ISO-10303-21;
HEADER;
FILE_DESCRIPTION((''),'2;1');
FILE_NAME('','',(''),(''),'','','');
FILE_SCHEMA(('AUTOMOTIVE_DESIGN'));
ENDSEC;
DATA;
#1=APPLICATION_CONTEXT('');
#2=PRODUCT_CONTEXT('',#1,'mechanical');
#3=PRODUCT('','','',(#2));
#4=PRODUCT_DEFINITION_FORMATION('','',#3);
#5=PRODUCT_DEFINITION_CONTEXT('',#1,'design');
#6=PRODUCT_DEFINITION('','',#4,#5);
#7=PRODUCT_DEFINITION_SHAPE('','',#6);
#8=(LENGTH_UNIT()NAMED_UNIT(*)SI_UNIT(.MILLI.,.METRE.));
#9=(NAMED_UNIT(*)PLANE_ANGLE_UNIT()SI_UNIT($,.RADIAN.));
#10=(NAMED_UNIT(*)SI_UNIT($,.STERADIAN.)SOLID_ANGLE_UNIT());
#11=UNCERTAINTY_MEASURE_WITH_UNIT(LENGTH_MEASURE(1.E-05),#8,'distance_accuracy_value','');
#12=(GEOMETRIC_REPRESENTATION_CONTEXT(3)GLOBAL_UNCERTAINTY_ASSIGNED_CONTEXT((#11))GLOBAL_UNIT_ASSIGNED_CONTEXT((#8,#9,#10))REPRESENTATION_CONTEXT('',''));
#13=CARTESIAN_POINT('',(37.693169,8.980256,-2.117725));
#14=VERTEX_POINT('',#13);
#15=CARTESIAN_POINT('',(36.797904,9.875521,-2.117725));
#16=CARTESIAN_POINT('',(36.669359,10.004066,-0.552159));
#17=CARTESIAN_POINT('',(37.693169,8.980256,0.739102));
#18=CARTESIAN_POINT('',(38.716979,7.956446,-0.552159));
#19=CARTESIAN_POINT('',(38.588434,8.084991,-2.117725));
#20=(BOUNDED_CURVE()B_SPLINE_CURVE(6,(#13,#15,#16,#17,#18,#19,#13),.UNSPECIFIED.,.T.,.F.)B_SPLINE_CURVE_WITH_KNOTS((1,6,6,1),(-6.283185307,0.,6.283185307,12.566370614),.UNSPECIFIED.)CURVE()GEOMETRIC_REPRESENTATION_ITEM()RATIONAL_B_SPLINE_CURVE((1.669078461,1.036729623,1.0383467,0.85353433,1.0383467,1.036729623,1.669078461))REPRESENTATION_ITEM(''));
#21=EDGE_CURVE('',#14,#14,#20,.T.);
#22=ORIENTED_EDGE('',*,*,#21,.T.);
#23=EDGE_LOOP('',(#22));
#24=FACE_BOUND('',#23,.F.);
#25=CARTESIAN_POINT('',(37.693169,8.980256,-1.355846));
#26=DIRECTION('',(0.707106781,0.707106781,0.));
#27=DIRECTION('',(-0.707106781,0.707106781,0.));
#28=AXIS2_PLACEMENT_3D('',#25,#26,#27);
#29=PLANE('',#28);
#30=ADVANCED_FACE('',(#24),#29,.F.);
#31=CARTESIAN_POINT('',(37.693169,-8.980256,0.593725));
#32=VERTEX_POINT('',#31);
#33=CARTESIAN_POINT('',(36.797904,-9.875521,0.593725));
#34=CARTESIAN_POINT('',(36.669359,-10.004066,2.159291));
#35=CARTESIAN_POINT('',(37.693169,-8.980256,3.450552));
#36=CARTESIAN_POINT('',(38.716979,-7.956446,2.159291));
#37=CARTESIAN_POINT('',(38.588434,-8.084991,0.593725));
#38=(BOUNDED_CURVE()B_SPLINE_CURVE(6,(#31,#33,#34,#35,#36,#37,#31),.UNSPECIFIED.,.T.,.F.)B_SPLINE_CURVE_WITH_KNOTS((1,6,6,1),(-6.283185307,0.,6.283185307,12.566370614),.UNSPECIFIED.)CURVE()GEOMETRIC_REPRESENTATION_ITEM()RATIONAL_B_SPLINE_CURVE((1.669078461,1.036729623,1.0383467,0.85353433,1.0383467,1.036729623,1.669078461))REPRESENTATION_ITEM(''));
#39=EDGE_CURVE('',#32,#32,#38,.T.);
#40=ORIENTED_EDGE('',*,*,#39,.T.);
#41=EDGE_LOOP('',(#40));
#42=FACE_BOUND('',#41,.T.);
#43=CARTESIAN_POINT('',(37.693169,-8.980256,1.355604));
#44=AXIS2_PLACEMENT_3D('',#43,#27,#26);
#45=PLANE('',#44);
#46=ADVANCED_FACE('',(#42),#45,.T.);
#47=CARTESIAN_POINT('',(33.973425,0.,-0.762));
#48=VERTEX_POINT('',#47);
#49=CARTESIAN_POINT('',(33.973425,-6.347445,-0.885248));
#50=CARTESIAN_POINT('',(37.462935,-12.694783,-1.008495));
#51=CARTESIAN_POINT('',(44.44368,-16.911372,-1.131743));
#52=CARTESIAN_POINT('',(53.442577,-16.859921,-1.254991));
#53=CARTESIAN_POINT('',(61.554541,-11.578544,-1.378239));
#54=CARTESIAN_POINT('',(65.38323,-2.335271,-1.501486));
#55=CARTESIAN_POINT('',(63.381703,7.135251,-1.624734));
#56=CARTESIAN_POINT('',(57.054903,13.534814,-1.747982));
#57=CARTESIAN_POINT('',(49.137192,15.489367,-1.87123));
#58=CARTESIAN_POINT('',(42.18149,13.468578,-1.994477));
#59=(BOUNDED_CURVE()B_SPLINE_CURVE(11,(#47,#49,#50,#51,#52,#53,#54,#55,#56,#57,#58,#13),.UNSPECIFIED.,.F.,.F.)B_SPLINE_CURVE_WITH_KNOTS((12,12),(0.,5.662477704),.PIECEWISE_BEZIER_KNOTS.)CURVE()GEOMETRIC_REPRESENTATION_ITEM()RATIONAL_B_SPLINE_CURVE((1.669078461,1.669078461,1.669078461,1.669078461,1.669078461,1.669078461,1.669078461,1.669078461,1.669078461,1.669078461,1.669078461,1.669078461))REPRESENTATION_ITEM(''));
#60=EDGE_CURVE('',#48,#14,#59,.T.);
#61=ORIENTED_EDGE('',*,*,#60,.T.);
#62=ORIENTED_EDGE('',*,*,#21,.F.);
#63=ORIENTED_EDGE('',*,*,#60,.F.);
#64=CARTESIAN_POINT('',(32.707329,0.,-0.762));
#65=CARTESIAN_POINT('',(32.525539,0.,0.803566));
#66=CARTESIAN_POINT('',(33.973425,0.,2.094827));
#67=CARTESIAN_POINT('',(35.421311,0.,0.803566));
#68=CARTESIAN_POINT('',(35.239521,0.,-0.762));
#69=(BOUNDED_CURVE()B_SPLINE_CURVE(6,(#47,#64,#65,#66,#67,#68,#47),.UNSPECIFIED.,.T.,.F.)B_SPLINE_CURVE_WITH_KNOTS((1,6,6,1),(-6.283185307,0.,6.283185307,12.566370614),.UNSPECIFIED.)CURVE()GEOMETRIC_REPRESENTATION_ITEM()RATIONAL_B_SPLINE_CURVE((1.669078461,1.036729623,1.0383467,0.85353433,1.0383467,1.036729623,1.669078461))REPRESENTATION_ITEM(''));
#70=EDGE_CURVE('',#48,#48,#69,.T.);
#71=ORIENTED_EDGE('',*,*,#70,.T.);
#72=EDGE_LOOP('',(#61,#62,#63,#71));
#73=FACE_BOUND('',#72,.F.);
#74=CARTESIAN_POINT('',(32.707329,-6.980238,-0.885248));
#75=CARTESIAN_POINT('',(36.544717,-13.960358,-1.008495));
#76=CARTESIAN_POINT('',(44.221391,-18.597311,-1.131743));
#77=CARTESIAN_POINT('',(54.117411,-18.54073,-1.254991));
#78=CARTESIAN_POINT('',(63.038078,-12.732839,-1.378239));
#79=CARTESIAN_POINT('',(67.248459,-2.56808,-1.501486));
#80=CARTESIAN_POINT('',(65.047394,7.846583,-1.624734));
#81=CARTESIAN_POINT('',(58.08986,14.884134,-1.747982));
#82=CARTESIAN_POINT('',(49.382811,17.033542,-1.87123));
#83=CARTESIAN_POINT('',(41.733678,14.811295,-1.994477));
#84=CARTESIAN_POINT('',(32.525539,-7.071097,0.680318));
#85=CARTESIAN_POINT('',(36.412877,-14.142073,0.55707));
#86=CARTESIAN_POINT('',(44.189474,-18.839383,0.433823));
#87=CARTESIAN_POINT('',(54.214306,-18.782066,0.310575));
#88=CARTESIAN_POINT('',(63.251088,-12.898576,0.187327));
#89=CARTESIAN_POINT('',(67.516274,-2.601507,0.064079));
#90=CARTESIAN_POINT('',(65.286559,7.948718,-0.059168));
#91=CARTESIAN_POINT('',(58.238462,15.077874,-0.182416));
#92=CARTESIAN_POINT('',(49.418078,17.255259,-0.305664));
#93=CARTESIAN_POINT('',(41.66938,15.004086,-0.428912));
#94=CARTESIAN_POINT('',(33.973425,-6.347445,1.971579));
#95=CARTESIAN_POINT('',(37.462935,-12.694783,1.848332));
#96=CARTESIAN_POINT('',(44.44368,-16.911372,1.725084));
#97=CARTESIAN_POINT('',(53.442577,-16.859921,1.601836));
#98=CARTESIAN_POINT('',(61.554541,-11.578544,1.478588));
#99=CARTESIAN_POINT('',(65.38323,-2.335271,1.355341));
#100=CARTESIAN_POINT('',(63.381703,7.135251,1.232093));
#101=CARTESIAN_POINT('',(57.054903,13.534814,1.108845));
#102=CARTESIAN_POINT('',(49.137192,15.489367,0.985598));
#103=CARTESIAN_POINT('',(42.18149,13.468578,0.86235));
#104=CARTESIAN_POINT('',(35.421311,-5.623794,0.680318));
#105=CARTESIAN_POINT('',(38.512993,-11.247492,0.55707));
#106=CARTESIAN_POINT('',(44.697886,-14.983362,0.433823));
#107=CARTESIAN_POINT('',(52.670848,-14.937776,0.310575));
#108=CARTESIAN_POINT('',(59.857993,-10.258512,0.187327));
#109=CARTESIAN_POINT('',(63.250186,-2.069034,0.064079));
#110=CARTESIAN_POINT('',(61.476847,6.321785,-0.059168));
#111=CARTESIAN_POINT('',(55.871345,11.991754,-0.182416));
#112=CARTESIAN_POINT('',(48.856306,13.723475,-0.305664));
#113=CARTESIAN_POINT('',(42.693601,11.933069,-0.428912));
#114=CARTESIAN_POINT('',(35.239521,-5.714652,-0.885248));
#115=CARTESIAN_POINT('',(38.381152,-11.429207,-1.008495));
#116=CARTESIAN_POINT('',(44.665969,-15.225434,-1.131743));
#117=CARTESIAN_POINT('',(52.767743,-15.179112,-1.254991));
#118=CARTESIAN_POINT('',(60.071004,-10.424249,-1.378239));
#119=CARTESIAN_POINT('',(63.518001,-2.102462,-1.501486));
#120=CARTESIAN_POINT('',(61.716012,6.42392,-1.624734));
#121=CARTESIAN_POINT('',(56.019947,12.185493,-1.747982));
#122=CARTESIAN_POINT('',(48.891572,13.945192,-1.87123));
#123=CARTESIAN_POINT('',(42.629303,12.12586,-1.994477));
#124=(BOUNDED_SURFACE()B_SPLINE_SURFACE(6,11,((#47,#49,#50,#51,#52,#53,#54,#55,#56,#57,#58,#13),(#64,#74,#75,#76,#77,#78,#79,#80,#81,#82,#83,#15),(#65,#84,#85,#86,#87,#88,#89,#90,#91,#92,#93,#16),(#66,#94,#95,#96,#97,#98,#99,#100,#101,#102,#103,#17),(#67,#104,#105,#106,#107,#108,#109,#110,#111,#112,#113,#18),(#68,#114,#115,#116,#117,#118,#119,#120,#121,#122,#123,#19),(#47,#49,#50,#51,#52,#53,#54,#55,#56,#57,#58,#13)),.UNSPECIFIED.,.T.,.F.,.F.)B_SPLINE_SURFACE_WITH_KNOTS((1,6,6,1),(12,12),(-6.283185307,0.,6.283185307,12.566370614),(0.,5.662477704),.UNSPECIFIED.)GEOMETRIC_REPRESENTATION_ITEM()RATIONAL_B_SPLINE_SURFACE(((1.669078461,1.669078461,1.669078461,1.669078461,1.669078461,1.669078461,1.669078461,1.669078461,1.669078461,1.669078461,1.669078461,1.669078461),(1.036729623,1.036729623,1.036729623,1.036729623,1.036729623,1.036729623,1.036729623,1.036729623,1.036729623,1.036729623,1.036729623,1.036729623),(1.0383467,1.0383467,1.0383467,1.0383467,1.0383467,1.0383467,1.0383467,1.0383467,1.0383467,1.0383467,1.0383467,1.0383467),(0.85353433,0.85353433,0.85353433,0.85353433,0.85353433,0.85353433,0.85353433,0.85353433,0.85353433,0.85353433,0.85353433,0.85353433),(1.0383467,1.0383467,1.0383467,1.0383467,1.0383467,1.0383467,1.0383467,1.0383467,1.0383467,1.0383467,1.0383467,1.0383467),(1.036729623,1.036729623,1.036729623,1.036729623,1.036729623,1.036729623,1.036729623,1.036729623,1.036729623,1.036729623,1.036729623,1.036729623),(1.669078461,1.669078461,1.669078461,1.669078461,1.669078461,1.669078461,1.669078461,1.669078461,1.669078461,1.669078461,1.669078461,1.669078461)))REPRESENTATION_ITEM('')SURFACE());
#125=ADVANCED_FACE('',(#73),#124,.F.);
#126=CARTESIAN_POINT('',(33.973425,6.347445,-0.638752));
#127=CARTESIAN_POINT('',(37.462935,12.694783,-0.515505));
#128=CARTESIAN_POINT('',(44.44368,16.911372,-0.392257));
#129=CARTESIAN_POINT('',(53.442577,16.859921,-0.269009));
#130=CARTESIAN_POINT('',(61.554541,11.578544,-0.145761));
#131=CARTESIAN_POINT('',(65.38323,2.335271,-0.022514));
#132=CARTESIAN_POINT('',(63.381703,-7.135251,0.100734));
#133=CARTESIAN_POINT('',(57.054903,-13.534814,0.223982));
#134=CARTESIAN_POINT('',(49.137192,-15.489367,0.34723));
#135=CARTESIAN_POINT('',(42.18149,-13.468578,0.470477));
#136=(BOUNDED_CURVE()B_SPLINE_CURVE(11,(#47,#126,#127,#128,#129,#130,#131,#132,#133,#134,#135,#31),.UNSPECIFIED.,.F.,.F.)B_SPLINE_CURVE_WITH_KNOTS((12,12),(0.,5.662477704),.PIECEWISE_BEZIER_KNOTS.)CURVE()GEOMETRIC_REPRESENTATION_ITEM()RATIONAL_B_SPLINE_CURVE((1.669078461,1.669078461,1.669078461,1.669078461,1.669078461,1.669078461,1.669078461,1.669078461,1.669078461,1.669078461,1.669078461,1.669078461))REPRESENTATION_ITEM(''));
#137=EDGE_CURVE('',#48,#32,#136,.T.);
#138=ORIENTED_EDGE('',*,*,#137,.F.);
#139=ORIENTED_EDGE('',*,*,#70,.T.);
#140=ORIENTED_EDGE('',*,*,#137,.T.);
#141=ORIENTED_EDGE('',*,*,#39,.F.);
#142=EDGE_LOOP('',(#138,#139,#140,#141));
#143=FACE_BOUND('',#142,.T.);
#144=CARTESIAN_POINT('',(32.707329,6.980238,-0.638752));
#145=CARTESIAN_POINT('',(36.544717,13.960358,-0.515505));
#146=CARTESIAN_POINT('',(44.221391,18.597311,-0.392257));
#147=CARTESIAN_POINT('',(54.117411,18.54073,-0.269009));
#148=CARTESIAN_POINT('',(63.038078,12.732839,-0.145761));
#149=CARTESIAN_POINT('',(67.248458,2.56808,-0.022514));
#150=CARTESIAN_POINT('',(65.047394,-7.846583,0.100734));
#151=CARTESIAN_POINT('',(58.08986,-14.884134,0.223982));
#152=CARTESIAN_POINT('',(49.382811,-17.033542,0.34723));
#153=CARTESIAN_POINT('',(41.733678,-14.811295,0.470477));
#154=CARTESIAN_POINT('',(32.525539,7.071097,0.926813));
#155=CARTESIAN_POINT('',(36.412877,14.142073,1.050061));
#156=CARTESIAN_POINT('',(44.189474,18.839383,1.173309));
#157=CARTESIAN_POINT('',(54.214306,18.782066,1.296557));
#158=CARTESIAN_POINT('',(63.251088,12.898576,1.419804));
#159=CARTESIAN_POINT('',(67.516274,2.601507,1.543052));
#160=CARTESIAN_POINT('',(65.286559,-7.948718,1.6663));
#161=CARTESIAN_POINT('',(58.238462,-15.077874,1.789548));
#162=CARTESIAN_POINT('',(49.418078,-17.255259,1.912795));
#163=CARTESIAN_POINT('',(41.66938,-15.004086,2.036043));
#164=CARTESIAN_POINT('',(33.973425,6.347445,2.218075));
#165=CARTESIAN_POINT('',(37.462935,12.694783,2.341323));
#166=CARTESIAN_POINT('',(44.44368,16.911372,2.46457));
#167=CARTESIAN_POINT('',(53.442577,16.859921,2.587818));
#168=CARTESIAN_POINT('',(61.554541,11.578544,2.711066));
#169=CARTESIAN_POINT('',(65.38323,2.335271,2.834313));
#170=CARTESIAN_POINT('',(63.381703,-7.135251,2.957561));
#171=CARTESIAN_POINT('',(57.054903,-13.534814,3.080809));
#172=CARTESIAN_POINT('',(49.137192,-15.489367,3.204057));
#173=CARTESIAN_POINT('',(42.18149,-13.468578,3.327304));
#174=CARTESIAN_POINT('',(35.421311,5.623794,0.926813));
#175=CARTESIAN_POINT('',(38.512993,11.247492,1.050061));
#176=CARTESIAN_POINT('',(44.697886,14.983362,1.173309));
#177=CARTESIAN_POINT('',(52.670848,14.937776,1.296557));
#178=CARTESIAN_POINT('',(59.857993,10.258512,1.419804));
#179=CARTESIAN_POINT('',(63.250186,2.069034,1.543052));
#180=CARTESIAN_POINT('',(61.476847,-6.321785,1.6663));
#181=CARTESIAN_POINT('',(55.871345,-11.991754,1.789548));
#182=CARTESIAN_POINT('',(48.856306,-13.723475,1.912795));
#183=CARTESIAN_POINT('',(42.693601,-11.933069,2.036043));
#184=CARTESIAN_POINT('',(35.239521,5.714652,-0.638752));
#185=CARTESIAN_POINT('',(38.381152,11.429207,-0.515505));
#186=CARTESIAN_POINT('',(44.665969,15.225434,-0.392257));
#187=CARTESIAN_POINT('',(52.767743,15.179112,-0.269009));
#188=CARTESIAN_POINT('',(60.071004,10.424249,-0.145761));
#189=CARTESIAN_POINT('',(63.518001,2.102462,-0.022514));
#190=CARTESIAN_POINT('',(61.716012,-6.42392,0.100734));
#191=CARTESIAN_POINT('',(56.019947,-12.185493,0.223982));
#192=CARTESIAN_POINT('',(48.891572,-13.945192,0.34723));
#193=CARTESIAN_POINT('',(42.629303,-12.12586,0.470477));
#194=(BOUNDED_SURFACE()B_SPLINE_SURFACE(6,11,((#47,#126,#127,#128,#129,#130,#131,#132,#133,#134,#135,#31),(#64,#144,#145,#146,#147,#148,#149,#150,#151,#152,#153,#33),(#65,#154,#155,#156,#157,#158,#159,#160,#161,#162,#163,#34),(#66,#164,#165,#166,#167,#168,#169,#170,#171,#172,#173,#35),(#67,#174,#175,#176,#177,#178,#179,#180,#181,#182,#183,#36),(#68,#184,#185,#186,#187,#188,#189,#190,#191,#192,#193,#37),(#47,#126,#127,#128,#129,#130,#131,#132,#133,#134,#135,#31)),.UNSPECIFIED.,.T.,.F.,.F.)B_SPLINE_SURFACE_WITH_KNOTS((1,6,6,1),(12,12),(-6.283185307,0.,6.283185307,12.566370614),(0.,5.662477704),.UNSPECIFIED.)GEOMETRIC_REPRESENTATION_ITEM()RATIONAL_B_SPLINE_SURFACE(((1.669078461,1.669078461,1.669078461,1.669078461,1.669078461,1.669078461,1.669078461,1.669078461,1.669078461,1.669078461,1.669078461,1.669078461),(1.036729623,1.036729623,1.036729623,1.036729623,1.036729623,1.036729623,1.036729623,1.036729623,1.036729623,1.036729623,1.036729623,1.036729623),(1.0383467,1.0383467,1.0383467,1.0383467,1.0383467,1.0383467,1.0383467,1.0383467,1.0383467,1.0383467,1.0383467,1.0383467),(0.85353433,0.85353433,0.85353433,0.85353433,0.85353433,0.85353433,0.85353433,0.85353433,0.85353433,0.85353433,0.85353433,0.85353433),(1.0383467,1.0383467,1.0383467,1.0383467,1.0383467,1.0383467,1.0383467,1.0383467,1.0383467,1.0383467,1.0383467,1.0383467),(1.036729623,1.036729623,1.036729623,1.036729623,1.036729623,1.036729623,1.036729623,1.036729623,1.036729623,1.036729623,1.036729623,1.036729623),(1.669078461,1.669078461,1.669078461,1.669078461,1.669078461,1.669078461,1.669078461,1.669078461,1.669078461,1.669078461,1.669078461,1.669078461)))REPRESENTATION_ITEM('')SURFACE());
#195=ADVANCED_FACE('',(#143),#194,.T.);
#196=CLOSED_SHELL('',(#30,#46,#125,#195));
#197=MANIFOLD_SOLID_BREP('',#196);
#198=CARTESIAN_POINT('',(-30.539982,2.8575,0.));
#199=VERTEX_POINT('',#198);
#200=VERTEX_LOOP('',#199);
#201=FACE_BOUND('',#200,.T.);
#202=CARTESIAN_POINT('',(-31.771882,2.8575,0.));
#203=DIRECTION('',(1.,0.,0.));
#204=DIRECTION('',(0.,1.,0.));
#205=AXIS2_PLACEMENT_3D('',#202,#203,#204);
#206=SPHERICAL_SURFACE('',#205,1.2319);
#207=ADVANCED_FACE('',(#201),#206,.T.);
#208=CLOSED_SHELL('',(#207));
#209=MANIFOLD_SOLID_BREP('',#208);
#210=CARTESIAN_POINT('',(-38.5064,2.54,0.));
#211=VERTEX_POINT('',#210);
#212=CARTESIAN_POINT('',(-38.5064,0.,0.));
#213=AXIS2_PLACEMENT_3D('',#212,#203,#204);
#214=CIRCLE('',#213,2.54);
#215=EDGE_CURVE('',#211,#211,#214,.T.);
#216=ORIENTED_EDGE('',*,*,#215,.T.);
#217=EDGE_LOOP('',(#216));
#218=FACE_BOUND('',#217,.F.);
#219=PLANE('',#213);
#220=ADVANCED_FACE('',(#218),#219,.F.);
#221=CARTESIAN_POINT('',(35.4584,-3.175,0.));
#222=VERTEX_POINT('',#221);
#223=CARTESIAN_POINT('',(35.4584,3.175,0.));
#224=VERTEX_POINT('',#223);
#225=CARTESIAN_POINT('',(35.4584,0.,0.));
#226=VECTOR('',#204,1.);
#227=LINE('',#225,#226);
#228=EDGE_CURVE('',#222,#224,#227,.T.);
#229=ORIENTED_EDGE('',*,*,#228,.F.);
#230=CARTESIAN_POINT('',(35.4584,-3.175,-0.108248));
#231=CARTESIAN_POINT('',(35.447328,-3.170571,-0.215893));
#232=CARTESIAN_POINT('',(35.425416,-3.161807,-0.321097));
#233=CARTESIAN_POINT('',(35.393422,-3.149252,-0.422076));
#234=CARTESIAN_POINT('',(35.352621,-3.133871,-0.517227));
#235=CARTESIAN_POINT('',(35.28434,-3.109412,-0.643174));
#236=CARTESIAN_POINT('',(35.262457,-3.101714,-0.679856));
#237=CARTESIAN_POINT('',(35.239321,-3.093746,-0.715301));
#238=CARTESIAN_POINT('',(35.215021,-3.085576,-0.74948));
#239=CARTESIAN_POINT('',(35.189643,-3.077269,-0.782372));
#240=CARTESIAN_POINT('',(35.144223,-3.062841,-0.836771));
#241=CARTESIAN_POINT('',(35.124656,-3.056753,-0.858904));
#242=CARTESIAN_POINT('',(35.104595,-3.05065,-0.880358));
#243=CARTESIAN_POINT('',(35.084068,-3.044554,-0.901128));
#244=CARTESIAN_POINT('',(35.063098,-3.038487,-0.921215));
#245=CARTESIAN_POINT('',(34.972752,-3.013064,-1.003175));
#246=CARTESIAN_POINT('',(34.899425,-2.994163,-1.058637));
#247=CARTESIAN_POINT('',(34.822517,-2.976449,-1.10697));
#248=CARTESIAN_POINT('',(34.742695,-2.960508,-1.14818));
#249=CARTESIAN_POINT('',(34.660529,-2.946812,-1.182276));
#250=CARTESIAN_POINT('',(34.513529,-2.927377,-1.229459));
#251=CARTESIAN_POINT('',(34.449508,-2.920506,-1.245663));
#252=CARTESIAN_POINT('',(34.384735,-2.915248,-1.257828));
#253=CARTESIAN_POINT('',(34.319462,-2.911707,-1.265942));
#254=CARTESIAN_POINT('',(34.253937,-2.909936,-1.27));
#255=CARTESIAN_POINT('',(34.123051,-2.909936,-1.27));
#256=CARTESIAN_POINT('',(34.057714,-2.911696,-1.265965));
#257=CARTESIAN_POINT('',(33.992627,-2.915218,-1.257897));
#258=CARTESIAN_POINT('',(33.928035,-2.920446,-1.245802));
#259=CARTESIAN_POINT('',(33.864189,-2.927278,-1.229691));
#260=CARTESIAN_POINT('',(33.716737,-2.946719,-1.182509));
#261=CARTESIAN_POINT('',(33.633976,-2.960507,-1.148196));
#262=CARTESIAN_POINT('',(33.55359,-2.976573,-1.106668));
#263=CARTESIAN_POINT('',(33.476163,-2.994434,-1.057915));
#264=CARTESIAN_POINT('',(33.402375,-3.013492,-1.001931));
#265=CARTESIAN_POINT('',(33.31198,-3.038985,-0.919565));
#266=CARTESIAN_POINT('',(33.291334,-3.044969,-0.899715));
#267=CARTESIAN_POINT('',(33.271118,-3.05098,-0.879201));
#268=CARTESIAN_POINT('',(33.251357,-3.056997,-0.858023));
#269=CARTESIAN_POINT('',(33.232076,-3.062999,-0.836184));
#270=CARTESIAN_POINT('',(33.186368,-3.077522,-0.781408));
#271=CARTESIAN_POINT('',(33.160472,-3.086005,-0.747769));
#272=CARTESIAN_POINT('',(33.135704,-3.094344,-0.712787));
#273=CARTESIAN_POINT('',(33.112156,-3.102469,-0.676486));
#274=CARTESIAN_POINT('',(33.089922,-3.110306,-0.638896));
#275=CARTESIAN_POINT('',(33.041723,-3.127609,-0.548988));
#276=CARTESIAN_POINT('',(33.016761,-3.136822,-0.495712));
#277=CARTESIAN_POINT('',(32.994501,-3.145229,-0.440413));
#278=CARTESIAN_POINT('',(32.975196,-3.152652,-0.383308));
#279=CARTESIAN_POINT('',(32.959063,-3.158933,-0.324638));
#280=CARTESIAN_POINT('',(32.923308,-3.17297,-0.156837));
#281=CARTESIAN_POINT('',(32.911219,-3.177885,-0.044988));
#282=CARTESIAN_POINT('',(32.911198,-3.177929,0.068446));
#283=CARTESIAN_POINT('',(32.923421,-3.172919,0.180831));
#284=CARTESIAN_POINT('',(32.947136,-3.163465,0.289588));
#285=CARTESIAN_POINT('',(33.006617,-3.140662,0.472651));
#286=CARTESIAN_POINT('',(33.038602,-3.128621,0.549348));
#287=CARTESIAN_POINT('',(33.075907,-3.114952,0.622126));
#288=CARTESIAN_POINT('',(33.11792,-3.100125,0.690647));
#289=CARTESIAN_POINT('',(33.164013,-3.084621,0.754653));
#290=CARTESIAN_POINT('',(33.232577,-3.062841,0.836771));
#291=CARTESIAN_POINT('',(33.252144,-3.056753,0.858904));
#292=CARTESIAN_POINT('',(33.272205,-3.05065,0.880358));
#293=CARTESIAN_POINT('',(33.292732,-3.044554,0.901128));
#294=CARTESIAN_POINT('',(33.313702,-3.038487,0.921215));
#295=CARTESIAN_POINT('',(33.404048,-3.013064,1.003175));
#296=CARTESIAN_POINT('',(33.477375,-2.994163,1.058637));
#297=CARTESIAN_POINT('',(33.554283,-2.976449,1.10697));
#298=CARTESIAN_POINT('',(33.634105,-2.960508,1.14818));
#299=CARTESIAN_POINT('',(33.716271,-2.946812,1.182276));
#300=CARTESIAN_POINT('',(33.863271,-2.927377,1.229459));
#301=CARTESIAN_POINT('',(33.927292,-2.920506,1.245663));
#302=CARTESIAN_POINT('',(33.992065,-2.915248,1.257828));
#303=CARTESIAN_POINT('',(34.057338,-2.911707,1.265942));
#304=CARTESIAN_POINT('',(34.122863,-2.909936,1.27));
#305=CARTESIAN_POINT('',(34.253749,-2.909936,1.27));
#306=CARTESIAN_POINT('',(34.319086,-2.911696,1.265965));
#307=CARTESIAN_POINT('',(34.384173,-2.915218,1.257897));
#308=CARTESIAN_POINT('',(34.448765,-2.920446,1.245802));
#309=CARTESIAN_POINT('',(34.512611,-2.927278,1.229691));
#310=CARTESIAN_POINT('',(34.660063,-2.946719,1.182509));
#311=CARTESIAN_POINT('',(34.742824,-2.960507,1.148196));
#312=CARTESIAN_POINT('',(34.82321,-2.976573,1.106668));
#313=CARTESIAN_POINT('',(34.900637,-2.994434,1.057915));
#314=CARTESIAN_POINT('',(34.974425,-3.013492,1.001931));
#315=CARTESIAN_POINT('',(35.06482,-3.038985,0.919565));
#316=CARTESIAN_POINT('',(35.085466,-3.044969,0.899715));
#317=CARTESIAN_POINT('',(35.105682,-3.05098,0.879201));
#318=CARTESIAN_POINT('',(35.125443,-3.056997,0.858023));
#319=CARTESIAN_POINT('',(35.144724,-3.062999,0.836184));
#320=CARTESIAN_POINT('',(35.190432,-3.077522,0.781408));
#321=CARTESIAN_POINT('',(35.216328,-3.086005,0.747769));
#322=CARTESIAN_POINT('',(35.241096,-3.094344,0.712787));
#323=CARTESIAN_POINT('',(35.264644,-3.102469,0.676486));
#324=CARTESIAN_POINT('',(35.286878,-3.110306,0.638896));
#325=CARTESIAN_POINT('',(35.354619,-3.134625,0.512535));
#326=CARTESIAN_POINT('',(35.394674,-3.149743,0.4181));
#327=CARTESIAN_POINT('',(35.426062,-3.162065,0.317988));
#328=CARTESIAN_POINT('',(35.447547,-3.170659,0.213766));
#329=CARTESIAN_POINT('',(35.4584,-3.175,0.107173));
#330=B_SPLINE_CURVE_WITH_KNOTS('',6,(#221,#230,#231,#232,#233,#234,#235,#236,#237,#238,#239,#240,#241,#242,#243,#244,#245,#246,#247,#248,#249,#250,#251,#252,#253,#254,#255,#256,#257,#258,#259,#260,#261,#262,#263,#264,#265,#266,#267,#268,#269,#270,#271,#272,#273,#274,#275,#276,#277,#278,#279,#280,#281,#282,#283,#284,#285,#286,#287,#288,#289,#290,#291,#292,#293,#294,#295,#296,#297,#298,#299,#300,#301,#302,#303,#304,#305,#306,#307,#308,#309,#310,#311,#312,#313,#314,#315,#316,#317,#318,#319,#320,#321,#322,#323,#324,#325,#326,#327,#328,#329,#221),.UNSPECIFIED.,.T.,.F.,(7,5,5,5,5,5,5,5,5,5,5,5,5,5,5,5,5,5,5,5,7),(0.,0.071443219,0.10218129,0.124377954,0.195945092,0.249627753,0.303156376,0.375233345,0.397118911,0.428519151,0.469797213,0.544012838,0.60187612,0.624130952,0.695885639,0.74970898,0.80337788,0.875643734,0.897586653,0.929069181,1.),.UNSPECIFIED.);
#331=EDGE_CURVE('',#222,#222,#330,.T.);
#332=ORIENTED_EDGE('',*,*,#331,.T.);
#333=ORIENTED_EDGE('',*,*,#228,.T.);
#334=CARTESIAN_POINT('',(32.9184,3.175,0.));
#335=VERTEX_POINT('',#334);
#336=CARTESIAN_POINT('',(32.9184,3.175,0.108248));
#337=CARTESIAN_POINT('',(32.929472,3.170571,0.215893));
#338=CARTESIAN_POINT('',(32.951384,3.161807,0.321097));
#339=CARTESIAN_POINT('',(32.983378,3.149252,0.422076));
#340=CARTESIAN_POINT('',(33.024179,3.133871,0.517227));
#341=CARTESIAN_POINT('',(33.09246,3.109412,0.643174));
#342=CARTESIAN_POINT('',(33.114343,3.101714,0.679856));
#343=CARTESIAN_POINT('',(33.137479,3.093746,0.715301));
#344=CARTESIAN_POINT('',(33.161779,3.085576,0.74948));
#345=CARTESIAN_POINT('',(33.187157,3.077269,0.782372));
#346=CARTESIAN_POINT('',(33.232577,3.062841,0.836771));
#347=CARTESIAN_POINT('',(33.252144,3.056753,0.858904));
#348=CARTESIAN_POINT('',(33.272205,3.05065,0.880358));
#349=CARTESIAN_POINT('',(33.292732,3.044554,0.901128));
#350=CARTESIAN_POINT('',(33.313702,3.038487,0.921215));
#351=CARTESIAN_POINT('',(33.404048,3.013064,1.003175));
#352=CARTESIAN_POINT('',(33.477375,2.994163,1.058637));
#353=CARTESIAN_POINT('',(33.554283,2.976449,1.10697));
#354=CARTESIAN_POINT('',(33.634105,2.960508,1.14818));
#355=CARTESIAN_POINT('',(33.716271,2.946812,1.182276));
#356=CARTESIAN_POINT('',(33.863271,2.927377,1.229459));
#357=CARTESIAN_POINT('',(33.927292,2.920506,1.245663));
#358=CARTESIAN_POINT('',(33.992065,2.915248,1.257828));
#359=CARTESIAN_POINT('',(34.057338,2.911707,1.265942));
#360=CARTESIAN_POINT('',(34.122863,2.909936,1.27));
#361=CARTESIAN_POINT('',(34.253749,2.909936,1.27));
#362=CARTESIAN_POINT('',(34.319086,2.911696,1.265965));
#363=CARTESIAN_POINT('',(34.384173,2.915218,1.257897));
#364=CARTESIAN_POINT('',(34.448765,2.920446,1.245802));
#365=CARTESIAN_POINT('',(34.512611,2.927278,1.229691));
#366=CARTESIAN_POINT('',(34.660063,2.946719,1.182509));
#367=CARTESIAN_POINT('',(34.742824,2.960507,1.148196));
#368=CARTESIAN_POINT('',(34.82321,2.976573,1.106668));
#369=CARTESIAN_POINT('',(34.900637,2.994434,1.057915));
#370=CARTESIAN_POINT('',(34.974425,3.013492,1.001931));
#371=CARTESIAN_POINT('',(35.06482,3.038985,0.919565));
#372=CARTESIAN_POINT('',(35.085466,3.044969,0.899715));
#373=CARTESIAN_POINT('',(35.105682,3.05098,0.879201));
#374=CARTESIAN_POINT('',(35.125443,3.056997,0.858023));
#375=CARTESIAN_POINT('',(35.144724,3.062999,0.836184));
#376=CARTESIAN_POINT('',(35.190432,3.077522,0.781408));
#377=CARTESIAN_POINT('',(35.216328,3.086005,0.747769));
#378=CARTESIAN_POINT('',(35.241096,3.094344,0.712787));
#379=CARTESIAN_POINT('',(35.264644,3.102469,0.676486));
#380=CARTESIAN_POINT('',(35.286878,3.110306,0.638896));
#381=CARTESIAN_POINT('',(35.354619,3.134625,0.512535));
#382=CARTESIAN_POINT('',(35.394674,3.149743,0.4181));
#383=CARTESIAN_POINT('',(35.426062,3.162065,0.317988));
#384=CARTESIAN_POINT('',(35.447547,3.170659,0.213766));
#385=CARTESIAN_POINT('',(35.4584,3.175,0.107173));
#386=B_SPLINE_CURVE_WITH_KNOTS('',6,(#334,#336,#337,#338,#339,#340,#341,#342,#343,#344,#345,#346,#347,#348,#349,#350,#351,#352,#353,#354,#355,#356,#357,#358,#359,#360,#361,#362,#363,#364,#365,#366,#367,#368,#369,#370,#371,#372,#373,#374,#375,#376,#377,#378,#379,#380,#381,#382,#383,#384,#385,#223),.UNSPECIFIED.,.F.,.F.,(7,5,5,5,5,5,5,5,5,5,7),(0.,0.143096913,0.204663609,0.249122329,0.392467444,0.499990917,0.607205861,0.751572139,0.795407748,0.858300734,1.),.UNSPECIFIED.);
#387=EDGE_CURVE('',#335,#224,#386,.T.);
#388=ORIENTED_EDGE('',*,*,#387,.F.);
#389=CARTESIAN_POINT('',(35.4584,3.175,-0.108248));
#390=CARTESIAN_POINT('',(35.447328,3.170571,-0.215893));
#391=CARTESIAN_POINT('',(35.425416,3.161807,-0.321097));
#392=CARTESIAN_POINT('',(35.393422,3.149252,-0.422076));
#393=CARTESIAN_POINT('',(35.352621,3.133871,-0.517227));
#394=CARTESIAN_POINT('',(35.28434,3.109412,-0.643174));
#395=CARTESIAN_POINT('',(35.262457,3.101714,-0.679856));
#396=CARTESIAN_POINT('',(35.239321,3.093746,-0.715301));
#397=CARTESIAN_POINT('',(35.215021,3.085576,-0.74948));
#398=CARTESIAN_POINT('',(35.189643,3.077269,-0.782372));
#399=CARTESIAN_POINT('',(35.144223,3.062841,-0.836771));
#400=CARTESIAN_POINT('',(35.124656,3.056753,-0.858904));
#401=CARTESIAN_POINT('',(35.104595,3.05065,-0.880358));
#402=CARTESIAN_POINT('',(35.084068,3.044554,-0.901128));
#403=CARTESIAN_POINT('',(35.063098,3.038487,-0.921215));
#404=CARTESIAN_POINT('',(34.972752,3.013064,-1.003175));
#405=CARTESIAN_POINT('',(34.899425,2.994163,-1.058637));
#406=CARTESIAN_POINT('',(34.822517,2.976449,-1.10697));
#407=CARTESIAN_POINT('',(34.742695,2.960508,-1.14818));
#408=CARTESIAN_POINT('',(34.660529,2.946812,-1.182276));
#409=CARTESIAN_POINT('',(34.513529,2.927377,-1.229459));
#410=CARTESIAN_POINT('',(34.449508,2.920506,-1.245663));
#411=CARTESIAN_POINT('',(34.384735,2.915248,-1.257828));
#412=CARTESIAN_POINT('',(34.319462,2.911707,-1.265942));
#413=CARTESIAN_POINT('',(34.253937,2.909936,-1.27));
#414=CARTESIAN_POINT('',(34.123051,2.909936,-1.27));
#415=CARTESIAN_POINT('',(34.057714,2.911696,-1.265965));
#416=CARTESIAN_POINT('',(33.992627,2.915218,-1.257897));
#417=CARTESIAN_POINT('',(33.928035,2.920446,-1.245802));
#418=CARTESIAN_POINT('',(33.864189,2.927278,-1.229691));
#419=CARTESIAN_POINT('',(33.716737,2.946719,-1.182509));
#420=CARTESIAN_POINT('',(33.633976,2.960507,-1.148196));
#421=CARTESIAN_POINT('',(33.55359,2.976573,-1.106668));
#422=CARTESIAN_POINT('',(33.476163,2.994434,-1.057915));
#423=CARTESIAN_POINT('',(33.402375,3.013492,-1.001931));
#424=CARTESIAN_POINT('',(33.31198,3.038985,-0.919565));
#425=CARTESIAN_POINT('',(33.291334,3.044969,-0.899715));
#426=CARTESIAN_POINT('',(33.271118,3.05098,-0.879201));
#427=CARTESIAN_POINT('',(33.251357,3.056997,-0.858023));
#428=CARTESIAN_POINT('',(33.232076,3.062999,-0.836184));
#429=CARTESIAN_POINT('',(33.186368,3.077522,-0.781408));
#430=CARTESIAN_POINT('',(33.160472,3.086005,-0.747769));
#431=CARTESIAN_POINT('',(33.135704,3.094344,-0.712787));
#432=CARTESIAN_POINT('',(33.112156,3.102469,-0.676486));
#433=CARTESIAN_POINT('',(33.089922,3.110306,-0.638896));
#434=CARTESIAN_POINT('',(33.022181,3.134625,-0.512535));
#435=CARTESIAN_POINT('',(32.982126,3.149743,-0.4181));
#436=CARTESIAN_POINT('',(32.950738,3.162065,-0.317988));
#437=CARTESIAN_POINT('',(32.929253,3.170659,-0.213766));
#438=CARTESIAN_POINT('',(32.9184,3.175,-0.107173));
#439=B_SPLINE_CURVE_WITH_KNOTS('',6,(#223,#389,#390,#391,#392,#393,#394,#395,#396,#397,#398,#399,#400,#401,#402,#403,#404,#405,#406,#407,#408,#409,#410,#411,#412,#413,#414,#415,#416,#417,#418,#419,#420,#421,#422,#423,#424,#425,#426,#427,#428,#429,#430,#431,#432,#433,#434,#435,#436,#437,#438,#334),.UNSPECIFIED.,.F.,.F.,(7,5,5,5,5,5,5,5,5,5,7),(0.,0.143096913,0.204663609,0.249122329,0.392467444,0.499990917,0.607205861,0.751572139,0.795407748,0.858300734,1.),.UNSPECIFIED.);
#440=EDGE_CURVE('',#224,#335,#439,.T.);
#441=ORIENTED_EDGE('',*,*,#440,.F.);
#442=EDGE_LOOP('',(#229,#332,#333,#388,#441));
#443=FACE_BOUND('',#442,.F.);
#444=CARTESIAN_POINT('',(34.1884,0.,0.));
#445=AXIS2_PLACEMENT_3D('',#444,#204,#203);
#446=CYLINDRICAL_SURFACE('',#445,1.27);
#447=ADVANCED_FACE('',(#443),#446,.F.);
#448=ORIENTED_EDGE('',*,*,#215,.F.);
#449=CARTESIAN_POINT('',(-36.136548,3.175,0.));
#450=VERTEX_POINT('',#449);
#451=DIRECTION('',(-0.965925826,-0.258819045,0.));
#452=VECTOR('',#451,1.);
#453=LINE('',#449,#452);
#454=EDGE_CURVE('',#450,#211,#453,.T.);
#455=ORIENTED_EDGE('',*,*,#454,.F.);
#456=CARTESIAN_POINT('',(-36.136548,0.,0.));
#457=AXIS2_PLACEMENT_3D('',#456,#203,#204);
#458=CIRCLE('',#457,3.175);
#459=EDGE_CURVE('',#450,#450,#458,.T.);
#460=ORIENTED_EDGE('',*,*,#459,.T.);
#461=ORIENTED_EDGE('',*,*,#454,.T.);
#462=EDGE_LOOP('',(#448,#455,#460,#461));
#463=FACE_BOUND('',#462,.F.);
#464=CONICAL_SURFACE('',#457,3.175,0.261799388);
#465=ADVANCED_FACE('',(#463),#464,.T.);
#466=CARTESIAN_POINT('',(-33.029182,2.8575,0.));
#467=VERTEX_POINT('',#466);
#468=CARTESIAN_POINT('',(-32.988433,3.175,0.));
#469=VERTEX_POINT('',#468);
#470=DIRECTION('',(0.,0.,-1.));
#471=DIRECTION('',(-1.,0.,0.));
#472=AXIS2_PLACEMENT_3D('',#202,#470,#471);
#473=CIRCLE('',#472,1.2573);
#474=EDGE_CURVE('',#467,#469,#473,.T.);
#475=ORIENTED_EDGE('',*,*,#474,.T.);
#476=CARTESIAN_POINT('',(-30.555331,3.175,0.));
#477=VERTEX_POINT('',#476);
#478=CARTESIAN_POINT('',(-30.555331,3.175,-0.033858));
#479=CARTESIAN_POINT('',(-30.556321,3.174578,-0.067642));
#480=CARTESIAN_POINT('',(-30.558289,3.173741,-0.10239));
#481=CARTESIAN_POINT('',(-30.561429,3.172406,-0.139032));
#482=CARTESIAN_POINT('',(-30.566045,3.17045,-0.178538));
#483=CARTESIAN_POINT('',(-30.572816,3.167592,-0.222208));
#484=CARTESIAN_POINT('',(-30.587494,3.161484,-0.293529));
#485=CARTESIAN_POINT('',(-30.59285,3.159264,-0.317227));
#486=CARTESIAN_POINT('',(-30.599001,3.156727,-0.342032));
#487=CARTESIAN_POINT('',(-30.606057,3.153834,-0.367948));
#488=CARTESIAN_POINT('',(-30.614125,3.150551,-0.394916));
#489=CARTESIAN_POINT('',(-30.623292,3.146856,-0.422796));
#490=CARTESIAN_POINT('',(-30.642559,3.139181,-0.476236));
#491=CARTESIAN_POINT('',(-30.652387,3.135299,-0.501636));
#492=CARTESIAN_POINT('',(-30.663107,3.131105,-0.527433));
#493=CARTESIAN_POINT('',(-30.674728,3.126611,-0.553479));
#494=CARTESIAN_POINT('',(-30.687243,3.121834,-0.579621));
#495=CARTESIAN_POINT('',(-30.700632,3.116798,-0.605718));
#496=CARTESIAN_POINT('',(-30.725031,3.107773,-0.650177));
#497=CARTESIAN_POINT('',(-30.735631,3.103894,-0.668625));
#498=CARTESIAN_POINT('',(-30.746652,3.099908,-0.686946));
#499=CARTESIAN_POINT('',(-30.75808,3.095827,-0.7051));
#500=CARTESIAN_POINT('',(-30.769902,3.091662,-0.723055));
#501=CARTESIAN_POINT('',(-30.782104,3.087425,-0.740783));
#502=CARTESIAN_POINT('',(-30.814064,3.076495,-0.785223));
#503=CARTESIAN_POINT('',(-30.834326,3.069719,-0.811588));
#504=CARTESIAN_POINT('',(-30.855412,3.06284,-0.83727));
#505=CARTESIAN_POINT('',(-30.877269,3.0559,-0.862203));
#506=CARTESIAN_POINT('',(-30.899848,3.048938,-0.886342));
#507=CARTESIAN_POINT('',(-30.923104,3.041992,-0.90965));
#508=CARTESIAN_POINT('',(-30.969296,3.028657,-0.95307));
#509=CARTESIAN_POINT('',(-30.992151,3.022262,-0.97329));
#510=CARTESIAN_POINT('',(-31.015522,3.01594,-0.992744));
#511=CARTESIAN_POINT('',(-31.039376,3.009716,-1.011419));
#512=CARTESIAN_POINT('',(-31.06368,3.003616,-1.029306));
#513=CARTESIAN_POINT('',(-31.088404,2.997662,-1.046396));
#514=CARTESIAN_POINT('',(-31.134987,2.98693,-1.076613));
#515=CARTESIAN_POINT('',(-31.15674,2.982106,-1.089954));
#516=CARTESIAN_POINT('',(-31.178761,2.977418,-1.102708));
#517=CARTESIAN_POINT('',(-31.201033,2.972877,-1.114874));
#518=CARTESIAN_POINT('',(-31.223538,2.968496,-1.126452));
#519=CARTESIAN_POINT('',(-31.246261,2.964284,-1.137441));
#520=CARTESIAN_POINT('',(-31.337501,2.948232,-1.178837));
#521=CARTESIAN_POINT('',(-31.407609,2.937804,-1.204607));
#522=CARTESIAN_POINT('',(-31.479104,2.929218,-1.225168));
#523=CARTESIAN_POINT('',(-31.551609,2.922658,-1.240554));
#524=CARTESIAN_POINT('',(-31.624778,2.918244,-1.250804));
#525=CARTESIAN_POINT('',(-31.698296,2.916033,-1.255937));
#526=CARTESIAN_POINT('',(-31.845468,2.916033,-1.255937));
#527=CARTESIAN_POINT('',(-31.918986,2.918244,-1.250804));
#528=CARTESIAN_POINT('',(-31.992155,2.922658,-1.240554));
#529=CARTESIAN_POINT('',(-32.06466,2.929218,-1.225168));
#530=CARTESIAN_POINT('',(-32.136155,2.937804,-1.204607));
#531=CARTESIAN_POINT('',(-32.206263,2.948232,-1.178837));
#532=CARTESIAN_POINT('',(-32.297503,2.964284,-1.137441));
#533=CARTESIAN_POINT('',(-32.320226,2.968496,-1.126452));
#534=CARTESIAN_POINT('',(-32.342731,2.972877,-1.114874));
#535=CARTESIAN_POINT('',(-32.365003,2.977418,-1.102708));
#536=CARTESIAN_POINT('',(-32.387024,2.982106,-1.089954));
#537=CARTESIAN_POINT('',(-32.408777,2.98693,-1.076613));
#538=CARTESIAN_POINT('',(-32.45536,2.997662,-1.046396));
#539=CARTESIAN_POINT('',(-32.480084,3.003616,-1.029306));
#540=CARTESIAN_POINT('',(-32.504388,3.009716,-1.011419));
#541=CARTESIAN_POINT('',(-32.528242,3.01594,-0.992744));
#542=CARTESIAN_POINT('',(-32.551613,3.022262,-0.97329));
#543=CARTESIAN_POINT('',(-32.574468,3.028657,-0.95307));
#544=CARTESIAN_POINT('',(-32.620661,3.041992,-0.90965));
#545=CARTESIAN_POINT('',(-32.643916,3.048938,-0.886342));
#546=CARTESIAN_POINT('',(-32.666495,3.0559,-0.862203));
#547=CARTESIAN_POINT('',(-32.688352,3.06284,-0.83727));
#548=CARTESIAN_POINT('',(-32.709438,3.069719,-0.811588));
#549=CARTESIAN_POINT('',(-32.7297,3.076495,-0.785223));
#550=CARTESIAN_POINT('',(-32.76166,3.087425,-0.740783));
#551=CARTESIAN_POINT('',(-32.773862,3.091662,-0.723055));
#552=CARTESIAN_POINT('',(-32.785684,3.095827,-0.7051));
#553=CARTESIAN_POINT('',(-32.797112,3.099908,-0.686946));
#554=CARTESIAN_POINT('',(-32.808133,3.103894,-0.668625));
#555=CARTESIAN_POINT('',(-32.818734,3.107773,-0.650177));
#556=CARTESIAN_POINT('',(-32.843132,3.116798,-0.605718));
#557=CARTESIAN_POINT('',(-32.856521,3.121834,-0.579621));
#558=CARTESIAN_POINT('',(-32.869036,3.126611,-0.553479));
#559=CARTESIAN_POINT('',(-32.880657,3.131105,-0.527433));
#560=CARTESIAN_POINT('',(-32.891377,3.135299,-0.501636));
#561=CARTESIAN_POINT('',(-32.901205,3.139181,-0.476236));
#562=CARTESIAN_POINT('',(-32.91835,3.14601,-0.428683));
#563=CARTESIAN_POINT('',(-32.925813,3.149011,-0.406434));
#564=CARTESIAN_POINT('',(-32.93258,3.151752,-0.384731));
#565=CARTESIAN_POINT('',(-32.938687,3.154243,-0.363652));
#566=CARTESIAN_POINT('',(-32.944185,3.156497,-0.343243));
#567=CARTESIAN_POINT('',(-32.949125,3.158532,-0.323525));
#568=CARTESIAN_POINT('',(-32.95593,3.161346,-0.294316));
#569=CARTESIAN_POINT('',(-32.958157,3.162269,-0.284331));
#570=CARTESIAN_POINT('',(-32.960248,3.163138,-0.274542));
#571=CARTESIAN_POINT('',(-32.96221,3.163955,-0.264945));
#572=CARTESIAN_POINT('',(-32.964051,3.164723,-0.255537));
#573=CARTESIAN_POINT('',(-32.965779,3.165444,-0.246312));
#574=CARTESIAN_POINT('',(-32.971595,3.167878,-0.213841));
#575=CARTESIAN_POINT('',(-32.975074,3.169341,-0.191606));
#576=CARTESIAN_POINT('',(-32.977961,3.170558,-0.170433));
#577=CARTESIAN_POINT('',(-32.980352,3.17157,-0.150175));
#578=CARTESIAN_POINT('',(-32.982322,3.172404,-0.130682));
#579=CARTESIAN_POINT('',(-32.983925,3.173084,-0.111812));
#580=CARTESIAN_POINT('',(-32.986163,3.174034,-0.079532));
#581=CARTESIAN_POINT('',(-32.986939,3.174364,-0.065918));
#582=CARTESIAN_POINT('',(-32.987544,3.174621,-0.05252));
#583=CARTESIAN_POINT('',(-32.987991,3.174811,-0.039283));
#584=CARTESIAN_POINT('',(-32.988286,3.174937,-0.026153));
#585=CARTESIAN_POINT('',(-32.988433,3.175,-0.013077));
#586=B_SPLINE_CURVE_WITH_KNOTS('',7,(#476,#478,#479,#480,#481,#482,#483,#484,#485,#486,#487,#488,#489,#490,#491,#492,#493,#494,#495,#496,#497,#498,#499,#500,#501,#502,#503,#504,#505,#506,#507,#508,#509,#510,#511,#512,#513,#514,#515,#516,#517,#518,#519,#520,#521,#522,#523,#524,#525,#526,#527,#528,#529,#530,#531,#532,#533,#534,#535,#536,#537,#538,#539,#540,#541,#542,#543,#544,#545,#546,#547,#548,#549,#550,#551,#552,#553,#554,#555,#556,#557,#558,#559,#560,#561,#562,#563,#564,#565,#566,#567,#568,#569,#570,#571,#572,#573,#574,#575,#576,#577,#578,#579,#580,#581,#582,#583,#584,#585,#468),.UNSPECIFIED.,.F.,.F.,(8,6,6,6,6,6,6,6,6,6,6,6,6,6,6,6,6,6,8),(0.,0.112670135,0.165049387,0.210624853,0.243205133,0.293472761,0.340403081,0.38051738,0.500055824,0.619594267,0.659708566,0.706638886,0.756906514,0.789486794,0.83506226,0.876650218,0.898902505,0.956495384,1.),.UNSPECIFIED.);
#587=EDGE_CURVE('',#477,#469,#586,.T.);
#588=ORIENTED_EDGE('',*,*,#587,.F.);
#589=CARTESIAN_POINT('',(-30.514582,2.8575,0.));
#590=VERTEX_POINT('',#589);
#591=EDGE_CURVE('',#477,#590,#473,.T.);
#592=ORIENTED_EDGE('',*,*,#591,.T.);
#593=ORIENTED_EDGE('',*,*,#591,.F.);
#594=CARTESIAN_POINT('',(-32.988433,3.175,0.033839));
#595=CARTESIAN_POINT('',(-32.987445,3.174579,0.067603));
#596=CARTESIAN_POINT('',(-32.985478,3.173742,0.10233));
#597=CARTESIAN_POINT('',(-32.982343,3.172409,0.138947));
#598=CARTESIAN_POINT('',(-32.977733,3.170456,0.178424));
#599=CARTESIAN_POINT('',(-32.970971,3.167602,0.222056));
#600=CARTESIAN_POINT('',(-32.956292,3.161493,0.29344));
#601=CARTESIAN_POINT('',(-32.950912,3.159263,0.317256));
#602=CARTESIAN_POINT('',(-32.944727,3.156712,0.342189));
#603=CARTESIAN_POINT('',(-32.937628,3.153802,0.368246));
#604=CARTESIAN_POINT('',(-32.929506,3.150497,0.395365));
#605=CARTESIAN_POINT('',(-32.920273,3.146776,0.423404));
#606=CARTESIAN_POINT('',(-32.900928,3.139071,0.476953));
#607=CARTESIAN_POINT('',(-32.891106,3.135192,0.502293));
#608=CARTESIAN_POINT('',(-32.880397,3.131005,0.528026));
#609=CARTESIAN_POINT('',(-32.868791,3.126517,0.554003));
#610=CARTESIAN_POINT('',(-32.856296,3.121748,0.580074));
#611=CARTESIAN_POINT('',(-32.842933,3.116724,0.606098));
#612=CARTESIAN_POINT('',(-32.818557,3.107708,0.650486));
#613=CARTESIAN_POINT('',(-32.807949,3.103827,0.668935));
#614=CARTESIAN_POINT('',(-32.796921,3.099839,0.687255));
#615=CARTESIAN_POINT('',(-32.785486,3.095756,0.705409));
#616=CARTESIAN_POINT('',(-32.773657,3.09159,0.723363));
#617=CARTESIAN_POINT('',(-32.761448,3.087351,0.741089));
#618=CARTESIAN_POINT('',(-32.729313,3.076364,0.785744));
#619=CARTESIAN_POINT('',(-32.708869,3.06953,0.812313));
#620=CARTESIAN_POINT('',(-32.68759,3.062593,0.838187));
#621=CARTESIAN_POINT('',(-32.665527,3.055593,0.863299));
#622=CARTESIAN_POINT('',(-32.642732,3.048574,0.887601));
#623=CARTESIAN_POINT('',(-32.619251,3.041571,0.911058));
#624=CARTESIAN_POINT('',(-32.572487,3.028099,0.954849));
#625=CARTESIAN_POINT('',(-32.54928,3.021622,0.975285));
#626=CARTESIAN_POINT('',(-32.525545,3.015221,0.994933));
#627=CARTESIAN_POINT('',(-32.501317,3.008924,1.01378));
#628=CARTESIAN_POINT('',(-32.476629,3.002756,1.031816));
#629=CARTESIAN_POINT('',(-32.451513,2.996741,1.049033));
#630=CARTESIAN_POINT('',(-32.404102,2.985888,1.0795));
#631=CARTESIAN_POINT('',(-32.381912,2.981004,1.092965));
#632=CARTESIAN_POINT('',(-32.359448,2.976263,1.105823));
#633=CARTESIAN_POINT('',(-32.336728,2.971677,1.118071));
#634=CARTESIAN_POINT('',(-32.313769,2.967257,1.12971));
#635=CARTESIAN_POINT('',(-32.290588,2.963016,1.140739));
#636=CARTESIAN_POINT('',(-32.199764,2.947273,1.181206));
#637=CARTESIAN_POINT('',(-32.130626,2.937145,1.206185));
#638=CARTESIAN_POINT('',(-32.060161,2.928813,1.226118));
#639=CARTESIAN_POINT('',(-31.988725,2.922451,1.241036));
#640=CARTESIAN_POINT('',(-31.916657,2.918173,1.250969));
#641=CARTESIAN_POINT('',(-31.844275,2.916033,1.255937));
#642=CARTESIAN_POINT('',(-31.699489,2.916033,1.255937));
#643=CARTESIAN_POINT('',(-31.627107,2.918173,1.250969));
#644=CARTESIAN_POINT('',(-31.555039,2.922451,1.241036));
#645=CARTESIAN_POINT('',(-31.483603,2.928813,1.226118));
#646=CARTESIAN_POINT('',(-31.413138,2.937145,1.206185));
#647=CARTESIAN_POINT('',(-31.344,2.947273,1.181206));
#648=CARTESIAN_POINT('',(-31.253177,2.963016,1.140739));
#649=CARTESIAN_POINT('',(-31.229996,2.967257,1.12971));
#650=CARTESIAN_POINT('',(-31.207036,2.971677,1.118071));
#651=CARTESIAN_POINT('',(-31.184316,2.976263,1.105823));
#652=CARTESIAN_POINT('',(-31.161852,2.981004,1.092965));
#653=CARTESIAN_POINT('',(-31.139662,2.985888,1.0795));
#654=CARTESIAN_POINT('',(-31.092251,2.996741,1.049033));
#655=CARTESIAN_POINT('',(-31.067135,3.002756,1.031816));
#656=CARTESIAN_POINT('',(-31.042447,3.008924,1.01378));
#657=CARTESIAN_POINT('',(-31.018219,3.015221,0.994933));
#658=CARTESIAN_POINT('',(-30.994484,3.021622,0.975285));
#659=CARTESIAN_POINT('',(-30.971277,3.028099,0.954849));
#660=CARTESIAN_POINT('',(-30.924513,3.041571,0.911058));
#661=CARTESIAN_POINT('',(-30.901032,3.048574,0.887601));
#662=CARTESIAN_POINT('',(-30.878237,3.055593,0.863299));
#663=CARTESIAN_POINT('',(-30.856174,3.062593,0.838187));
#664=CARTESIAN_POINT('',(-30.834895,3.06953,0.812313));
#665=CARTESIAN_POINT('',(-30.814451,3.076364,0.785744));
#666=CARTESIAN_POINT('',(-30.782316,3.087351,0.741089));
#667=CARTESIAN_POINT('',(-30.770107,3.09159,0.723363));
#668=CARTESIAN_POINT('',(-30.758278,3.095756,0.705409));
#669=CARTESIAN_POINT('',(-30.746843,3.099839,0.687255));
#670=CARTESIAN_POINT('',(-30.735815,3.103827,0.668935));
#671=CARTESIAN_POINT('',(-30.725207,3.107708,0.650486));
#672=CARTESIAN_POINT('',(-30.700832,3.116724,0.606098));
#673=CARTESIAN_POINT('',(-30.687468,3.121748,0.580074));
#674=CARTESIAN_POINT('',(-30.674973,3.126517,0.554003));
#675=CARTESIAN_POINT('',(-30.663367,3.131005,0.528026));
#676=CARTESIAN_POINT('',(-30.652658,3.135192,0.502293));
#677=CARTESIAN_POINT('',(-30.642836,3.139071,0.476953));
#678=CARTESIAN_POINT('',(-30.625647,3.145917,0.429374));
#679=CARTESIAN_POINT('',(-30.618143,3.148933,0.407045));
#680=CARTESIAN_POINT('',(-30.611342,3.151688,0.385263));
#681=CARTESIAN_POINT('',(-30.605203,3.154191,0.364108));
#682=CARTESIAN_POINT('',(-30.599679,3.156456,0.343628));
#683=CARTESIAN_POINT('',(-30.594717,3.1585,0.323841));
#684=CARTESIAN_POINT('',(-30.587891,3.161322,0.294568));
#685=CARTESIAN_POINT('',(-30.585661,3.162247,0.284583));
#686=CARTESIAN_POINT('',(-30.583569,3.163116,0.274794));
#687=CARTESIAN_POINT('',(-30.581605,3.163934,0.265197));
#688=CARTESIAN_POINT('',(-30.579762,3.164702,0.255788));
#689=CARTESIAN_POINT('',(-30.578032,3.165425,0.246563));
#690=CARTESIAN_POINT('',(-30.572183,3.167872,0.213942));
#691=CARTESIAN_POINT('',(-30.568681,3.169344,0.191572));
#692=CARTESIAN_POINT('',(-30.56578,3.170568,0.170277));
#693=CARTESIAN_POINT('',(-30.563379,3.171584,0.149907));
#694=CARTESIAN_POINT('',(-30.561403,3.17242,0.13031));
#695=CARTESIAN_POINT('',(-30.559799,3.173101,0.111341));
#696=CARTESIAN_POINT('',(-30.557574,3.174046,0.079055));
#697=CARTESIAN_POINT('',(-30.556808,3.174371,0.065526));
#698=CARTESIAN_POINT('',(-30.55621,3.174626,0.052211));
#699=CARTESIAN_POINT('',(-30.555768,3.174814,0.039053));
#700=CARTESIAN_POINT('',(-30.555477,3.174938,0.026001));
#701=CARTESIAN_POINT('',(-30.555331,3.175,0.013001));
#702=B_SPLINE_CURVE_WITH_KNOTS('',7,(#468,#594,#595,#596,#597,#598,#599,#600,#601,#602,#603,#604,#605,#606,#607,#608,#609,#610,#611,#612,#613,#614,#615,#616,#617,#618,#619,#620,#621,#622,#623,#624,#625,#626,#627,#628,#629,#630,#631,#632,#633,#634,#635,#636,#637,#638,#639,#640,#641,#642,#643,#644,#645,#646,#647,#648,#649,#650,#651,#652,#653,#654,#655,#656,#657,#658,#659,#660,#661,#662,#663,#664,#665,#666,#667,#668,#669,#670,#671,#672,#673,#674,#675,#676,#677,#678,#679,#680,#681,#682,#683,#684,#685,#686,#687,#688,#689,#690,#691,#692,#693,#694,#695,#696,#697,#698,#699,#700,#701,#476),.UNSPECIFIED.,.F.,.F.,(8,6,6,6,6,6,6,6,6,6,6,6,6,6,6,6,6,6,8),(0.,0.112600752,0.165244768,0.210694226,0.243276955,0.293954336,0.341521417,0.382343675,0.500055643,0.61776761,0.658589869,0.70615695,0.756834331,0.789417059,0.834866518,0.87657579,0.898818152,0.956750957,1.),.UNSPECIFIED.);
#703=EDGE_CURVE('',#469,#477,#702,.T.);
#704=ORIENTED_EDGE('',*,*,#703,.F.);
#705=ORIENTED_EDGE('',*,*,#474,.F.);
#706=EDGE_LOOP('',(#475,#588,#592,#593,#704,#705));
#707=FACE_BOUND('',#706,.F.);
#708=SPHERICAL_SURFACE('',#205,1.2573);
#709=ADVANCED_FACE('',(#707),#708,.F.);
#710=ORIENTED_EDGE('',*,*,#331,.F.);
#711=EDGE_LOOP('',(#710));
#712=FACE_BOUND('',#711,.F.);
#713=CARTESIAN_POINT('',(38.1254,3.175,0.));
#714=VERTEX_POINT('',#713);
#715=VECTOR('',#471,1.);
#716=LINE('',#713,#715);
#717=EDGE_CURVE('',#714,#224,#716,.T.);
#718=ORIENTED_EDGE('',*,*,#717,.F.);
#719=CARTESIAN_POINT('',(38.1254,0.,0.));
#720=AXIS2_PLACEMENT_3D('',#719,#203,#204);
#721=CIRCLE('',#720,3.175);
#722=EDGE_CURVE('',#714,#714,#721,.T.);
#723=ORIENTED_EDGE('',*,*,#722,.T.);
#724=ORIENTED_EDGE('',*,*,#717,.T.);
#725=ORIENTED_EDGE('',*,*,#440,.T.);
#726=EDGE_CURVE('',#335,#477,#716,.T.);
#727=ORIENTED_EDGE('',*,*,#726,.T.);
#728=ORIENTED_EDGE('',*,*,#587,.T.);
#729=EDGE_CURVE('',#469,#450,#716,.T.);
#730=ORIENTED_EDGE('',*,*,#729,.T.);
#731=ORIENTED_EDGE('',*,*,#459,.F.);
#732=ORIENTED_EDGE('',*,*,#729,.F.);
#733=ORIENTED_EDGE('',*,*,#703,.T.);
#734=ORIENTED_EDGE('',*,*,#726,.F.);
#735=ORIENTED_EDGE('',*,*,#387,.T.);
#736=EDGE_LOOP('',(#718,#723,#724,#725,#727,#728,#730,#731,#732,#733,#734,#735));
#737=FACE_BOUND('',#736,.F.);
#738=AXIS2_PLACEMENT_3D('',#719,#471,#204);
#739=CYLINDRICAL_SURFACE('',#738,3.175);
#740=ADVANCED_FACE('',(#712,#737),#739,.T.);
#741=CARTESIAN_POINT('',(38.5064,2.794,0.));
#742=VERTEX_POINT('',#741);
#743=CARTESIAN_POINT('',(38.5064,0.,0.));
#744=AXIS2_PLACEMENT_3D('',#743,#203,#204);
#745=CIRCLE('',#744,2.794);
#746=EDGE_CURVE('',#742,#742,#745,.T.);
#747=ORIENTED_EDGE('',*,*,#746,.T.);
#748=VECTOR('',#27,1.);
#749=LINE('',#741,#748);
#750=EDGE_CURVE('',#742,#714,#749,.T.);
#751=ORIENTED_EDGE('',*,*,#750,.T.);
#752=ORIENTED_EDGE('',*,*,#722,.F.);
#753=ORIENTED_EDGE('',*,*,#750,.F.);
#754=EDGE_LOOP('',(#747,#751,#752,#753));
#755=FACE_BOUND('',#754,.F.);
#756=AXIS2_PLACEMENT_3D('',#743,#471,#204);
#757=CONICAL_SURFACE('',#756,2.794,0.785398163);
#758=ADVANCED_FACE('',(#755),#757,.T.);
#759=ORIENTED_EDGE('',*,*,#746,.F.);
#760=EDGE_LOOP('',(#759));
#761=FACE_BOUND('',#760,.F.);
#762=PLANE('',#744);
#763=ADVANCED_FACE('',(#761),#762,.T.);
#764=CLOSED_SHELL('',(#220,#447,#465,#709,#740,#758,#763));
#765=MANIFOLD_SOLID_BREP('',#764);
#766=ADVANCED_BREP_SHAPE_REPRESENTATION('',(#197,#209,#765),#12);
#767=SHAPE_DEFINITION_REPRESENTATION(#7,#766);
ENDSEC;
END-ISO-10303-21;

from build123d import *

# Parameters (mm, degrees)
SKETCH4_W          = 1.27
SKETCH4_H          = 6.35
SWEEP1_PITCH       = 1.5494
SWEEP1_HEIGHT      = 1.355725
SWEEP1_RADIUS      = 13.462
SKETCH6_R          = 0.762
SWEEP2_PITCH       = 1.5494
SWEEP2_HEIGHT      = 1.355725
SWEEP2_RADIUS      = 13.462
SWEEP2_START_ANGLE = -180
SKETCH6_2_R        = 0.762


with BuildPart() as part:
    # Sketch1 → Revolve1 (revolve)
    with BuildSketch(Plane.XY):
        Polygon((38.5064, 2.794), (38.1254, 3.175), (-36.136547737, 3.175), (-38.5064, 2.54), (-38.5064, 0), (38.5064, 0), align=None)
    revolve(axis=Axis((38.5064, 0, 0), (1, 0, 0)))

    # Sketch2 → Cut-Revolve1 (revolve, cut)
    with BuildSketch(Plane.XY):
        with BuildLine():
            Line((-30.514582051, 2.8575), (-33.029182051, 2.8575))
            ThreePointArc((-33.029182051, 2.8575), (-31.771882051, 4.1148), (-30.514582051, 2.8575))
        make_face()
    revolve(axis=Axis((-30.514582051, 2.8575, 0), (1, 0, 0)), mode=Mode.SUBTRACT)

    # Sketch4 → Cut-Revolve2 (revolve, cut)
    with BuildSketch(Plane.XY):
        with Locations((34.8234, 0)):
            Rectangle(SKETCH4_W, SKETCH4_H)
    revolve(axis=Axis((34.1884, -3.175, 0), (0, 1, 0)), mode=Mode.SUBTRACT)


with BuildPart() as body_2:
    # Sketch3 → Revolve2 (revolve)
    with BuildSketch(Plane.XY):
        with BuildLine():
            Line((-30.539982051, 2.8575), (-33.003782051, 2.8575))
            ThreePointArc((-33.003782051, 2.8575), (-31.771882051, 4.0894), (-30.539982051, 2.8575))
        make_face()
    revolve(axis=Axis((-30.539982051, 2.8575, 0), (1, 0, 0)))


with BuildPart() as body_3:
    # Sweep1: sweep along a helix
    with BuildLine() as sweep1_path:
        Helix(SWEEP1_PITCH, SWEEP1_HEIGHT, SWEEP1_RADIUS, center=(46.673425091, 0, 0), direction=(0, 0, -1), lefthand=True)
    # Sketch6 → Sweep1 (sweep)
    with BuildSketch(Plane(origin=(114.003847968, 0, 0), x_dir=(0, 0, -1), z_dir=(0, 1, 0))):
        with Locations((0, 80.030422877)):
            Circle(SKETCH6_R)
    sweep(path=sweep1_path.line, is_frenet=True)

    # Sweep2: sweep along a helix
    with BuildLine() as sweep2_path:
        add(Helix(SWEEP2_PITCH, SWEEP2_HEIGHT, SWEEP2_RADIUS, center=(46.673425091, 0, 0), direction=(0, 0, 1), lefthand=True, mode=Mode.PRIVATE).rotate(Axis((46.673425091, 0, 0), (0, 0, 1)), SWEEP2_START_ANGLE))
    # Sketch6_2 → Sweep2 (sweep)
    with BuildSketch(Plane(origin=(114.003847968, 0, 0), x_dir=(0, 0, -1), z_dir=(0, 1, 0))):
        with Locations((0, 80.030422877)):
            Circle(SKETCH6_2_R)
    sweep(path=sweep2_path.line, is_frenet=True)


solid = Compound([part.part, body_2.part, body_3.part])
